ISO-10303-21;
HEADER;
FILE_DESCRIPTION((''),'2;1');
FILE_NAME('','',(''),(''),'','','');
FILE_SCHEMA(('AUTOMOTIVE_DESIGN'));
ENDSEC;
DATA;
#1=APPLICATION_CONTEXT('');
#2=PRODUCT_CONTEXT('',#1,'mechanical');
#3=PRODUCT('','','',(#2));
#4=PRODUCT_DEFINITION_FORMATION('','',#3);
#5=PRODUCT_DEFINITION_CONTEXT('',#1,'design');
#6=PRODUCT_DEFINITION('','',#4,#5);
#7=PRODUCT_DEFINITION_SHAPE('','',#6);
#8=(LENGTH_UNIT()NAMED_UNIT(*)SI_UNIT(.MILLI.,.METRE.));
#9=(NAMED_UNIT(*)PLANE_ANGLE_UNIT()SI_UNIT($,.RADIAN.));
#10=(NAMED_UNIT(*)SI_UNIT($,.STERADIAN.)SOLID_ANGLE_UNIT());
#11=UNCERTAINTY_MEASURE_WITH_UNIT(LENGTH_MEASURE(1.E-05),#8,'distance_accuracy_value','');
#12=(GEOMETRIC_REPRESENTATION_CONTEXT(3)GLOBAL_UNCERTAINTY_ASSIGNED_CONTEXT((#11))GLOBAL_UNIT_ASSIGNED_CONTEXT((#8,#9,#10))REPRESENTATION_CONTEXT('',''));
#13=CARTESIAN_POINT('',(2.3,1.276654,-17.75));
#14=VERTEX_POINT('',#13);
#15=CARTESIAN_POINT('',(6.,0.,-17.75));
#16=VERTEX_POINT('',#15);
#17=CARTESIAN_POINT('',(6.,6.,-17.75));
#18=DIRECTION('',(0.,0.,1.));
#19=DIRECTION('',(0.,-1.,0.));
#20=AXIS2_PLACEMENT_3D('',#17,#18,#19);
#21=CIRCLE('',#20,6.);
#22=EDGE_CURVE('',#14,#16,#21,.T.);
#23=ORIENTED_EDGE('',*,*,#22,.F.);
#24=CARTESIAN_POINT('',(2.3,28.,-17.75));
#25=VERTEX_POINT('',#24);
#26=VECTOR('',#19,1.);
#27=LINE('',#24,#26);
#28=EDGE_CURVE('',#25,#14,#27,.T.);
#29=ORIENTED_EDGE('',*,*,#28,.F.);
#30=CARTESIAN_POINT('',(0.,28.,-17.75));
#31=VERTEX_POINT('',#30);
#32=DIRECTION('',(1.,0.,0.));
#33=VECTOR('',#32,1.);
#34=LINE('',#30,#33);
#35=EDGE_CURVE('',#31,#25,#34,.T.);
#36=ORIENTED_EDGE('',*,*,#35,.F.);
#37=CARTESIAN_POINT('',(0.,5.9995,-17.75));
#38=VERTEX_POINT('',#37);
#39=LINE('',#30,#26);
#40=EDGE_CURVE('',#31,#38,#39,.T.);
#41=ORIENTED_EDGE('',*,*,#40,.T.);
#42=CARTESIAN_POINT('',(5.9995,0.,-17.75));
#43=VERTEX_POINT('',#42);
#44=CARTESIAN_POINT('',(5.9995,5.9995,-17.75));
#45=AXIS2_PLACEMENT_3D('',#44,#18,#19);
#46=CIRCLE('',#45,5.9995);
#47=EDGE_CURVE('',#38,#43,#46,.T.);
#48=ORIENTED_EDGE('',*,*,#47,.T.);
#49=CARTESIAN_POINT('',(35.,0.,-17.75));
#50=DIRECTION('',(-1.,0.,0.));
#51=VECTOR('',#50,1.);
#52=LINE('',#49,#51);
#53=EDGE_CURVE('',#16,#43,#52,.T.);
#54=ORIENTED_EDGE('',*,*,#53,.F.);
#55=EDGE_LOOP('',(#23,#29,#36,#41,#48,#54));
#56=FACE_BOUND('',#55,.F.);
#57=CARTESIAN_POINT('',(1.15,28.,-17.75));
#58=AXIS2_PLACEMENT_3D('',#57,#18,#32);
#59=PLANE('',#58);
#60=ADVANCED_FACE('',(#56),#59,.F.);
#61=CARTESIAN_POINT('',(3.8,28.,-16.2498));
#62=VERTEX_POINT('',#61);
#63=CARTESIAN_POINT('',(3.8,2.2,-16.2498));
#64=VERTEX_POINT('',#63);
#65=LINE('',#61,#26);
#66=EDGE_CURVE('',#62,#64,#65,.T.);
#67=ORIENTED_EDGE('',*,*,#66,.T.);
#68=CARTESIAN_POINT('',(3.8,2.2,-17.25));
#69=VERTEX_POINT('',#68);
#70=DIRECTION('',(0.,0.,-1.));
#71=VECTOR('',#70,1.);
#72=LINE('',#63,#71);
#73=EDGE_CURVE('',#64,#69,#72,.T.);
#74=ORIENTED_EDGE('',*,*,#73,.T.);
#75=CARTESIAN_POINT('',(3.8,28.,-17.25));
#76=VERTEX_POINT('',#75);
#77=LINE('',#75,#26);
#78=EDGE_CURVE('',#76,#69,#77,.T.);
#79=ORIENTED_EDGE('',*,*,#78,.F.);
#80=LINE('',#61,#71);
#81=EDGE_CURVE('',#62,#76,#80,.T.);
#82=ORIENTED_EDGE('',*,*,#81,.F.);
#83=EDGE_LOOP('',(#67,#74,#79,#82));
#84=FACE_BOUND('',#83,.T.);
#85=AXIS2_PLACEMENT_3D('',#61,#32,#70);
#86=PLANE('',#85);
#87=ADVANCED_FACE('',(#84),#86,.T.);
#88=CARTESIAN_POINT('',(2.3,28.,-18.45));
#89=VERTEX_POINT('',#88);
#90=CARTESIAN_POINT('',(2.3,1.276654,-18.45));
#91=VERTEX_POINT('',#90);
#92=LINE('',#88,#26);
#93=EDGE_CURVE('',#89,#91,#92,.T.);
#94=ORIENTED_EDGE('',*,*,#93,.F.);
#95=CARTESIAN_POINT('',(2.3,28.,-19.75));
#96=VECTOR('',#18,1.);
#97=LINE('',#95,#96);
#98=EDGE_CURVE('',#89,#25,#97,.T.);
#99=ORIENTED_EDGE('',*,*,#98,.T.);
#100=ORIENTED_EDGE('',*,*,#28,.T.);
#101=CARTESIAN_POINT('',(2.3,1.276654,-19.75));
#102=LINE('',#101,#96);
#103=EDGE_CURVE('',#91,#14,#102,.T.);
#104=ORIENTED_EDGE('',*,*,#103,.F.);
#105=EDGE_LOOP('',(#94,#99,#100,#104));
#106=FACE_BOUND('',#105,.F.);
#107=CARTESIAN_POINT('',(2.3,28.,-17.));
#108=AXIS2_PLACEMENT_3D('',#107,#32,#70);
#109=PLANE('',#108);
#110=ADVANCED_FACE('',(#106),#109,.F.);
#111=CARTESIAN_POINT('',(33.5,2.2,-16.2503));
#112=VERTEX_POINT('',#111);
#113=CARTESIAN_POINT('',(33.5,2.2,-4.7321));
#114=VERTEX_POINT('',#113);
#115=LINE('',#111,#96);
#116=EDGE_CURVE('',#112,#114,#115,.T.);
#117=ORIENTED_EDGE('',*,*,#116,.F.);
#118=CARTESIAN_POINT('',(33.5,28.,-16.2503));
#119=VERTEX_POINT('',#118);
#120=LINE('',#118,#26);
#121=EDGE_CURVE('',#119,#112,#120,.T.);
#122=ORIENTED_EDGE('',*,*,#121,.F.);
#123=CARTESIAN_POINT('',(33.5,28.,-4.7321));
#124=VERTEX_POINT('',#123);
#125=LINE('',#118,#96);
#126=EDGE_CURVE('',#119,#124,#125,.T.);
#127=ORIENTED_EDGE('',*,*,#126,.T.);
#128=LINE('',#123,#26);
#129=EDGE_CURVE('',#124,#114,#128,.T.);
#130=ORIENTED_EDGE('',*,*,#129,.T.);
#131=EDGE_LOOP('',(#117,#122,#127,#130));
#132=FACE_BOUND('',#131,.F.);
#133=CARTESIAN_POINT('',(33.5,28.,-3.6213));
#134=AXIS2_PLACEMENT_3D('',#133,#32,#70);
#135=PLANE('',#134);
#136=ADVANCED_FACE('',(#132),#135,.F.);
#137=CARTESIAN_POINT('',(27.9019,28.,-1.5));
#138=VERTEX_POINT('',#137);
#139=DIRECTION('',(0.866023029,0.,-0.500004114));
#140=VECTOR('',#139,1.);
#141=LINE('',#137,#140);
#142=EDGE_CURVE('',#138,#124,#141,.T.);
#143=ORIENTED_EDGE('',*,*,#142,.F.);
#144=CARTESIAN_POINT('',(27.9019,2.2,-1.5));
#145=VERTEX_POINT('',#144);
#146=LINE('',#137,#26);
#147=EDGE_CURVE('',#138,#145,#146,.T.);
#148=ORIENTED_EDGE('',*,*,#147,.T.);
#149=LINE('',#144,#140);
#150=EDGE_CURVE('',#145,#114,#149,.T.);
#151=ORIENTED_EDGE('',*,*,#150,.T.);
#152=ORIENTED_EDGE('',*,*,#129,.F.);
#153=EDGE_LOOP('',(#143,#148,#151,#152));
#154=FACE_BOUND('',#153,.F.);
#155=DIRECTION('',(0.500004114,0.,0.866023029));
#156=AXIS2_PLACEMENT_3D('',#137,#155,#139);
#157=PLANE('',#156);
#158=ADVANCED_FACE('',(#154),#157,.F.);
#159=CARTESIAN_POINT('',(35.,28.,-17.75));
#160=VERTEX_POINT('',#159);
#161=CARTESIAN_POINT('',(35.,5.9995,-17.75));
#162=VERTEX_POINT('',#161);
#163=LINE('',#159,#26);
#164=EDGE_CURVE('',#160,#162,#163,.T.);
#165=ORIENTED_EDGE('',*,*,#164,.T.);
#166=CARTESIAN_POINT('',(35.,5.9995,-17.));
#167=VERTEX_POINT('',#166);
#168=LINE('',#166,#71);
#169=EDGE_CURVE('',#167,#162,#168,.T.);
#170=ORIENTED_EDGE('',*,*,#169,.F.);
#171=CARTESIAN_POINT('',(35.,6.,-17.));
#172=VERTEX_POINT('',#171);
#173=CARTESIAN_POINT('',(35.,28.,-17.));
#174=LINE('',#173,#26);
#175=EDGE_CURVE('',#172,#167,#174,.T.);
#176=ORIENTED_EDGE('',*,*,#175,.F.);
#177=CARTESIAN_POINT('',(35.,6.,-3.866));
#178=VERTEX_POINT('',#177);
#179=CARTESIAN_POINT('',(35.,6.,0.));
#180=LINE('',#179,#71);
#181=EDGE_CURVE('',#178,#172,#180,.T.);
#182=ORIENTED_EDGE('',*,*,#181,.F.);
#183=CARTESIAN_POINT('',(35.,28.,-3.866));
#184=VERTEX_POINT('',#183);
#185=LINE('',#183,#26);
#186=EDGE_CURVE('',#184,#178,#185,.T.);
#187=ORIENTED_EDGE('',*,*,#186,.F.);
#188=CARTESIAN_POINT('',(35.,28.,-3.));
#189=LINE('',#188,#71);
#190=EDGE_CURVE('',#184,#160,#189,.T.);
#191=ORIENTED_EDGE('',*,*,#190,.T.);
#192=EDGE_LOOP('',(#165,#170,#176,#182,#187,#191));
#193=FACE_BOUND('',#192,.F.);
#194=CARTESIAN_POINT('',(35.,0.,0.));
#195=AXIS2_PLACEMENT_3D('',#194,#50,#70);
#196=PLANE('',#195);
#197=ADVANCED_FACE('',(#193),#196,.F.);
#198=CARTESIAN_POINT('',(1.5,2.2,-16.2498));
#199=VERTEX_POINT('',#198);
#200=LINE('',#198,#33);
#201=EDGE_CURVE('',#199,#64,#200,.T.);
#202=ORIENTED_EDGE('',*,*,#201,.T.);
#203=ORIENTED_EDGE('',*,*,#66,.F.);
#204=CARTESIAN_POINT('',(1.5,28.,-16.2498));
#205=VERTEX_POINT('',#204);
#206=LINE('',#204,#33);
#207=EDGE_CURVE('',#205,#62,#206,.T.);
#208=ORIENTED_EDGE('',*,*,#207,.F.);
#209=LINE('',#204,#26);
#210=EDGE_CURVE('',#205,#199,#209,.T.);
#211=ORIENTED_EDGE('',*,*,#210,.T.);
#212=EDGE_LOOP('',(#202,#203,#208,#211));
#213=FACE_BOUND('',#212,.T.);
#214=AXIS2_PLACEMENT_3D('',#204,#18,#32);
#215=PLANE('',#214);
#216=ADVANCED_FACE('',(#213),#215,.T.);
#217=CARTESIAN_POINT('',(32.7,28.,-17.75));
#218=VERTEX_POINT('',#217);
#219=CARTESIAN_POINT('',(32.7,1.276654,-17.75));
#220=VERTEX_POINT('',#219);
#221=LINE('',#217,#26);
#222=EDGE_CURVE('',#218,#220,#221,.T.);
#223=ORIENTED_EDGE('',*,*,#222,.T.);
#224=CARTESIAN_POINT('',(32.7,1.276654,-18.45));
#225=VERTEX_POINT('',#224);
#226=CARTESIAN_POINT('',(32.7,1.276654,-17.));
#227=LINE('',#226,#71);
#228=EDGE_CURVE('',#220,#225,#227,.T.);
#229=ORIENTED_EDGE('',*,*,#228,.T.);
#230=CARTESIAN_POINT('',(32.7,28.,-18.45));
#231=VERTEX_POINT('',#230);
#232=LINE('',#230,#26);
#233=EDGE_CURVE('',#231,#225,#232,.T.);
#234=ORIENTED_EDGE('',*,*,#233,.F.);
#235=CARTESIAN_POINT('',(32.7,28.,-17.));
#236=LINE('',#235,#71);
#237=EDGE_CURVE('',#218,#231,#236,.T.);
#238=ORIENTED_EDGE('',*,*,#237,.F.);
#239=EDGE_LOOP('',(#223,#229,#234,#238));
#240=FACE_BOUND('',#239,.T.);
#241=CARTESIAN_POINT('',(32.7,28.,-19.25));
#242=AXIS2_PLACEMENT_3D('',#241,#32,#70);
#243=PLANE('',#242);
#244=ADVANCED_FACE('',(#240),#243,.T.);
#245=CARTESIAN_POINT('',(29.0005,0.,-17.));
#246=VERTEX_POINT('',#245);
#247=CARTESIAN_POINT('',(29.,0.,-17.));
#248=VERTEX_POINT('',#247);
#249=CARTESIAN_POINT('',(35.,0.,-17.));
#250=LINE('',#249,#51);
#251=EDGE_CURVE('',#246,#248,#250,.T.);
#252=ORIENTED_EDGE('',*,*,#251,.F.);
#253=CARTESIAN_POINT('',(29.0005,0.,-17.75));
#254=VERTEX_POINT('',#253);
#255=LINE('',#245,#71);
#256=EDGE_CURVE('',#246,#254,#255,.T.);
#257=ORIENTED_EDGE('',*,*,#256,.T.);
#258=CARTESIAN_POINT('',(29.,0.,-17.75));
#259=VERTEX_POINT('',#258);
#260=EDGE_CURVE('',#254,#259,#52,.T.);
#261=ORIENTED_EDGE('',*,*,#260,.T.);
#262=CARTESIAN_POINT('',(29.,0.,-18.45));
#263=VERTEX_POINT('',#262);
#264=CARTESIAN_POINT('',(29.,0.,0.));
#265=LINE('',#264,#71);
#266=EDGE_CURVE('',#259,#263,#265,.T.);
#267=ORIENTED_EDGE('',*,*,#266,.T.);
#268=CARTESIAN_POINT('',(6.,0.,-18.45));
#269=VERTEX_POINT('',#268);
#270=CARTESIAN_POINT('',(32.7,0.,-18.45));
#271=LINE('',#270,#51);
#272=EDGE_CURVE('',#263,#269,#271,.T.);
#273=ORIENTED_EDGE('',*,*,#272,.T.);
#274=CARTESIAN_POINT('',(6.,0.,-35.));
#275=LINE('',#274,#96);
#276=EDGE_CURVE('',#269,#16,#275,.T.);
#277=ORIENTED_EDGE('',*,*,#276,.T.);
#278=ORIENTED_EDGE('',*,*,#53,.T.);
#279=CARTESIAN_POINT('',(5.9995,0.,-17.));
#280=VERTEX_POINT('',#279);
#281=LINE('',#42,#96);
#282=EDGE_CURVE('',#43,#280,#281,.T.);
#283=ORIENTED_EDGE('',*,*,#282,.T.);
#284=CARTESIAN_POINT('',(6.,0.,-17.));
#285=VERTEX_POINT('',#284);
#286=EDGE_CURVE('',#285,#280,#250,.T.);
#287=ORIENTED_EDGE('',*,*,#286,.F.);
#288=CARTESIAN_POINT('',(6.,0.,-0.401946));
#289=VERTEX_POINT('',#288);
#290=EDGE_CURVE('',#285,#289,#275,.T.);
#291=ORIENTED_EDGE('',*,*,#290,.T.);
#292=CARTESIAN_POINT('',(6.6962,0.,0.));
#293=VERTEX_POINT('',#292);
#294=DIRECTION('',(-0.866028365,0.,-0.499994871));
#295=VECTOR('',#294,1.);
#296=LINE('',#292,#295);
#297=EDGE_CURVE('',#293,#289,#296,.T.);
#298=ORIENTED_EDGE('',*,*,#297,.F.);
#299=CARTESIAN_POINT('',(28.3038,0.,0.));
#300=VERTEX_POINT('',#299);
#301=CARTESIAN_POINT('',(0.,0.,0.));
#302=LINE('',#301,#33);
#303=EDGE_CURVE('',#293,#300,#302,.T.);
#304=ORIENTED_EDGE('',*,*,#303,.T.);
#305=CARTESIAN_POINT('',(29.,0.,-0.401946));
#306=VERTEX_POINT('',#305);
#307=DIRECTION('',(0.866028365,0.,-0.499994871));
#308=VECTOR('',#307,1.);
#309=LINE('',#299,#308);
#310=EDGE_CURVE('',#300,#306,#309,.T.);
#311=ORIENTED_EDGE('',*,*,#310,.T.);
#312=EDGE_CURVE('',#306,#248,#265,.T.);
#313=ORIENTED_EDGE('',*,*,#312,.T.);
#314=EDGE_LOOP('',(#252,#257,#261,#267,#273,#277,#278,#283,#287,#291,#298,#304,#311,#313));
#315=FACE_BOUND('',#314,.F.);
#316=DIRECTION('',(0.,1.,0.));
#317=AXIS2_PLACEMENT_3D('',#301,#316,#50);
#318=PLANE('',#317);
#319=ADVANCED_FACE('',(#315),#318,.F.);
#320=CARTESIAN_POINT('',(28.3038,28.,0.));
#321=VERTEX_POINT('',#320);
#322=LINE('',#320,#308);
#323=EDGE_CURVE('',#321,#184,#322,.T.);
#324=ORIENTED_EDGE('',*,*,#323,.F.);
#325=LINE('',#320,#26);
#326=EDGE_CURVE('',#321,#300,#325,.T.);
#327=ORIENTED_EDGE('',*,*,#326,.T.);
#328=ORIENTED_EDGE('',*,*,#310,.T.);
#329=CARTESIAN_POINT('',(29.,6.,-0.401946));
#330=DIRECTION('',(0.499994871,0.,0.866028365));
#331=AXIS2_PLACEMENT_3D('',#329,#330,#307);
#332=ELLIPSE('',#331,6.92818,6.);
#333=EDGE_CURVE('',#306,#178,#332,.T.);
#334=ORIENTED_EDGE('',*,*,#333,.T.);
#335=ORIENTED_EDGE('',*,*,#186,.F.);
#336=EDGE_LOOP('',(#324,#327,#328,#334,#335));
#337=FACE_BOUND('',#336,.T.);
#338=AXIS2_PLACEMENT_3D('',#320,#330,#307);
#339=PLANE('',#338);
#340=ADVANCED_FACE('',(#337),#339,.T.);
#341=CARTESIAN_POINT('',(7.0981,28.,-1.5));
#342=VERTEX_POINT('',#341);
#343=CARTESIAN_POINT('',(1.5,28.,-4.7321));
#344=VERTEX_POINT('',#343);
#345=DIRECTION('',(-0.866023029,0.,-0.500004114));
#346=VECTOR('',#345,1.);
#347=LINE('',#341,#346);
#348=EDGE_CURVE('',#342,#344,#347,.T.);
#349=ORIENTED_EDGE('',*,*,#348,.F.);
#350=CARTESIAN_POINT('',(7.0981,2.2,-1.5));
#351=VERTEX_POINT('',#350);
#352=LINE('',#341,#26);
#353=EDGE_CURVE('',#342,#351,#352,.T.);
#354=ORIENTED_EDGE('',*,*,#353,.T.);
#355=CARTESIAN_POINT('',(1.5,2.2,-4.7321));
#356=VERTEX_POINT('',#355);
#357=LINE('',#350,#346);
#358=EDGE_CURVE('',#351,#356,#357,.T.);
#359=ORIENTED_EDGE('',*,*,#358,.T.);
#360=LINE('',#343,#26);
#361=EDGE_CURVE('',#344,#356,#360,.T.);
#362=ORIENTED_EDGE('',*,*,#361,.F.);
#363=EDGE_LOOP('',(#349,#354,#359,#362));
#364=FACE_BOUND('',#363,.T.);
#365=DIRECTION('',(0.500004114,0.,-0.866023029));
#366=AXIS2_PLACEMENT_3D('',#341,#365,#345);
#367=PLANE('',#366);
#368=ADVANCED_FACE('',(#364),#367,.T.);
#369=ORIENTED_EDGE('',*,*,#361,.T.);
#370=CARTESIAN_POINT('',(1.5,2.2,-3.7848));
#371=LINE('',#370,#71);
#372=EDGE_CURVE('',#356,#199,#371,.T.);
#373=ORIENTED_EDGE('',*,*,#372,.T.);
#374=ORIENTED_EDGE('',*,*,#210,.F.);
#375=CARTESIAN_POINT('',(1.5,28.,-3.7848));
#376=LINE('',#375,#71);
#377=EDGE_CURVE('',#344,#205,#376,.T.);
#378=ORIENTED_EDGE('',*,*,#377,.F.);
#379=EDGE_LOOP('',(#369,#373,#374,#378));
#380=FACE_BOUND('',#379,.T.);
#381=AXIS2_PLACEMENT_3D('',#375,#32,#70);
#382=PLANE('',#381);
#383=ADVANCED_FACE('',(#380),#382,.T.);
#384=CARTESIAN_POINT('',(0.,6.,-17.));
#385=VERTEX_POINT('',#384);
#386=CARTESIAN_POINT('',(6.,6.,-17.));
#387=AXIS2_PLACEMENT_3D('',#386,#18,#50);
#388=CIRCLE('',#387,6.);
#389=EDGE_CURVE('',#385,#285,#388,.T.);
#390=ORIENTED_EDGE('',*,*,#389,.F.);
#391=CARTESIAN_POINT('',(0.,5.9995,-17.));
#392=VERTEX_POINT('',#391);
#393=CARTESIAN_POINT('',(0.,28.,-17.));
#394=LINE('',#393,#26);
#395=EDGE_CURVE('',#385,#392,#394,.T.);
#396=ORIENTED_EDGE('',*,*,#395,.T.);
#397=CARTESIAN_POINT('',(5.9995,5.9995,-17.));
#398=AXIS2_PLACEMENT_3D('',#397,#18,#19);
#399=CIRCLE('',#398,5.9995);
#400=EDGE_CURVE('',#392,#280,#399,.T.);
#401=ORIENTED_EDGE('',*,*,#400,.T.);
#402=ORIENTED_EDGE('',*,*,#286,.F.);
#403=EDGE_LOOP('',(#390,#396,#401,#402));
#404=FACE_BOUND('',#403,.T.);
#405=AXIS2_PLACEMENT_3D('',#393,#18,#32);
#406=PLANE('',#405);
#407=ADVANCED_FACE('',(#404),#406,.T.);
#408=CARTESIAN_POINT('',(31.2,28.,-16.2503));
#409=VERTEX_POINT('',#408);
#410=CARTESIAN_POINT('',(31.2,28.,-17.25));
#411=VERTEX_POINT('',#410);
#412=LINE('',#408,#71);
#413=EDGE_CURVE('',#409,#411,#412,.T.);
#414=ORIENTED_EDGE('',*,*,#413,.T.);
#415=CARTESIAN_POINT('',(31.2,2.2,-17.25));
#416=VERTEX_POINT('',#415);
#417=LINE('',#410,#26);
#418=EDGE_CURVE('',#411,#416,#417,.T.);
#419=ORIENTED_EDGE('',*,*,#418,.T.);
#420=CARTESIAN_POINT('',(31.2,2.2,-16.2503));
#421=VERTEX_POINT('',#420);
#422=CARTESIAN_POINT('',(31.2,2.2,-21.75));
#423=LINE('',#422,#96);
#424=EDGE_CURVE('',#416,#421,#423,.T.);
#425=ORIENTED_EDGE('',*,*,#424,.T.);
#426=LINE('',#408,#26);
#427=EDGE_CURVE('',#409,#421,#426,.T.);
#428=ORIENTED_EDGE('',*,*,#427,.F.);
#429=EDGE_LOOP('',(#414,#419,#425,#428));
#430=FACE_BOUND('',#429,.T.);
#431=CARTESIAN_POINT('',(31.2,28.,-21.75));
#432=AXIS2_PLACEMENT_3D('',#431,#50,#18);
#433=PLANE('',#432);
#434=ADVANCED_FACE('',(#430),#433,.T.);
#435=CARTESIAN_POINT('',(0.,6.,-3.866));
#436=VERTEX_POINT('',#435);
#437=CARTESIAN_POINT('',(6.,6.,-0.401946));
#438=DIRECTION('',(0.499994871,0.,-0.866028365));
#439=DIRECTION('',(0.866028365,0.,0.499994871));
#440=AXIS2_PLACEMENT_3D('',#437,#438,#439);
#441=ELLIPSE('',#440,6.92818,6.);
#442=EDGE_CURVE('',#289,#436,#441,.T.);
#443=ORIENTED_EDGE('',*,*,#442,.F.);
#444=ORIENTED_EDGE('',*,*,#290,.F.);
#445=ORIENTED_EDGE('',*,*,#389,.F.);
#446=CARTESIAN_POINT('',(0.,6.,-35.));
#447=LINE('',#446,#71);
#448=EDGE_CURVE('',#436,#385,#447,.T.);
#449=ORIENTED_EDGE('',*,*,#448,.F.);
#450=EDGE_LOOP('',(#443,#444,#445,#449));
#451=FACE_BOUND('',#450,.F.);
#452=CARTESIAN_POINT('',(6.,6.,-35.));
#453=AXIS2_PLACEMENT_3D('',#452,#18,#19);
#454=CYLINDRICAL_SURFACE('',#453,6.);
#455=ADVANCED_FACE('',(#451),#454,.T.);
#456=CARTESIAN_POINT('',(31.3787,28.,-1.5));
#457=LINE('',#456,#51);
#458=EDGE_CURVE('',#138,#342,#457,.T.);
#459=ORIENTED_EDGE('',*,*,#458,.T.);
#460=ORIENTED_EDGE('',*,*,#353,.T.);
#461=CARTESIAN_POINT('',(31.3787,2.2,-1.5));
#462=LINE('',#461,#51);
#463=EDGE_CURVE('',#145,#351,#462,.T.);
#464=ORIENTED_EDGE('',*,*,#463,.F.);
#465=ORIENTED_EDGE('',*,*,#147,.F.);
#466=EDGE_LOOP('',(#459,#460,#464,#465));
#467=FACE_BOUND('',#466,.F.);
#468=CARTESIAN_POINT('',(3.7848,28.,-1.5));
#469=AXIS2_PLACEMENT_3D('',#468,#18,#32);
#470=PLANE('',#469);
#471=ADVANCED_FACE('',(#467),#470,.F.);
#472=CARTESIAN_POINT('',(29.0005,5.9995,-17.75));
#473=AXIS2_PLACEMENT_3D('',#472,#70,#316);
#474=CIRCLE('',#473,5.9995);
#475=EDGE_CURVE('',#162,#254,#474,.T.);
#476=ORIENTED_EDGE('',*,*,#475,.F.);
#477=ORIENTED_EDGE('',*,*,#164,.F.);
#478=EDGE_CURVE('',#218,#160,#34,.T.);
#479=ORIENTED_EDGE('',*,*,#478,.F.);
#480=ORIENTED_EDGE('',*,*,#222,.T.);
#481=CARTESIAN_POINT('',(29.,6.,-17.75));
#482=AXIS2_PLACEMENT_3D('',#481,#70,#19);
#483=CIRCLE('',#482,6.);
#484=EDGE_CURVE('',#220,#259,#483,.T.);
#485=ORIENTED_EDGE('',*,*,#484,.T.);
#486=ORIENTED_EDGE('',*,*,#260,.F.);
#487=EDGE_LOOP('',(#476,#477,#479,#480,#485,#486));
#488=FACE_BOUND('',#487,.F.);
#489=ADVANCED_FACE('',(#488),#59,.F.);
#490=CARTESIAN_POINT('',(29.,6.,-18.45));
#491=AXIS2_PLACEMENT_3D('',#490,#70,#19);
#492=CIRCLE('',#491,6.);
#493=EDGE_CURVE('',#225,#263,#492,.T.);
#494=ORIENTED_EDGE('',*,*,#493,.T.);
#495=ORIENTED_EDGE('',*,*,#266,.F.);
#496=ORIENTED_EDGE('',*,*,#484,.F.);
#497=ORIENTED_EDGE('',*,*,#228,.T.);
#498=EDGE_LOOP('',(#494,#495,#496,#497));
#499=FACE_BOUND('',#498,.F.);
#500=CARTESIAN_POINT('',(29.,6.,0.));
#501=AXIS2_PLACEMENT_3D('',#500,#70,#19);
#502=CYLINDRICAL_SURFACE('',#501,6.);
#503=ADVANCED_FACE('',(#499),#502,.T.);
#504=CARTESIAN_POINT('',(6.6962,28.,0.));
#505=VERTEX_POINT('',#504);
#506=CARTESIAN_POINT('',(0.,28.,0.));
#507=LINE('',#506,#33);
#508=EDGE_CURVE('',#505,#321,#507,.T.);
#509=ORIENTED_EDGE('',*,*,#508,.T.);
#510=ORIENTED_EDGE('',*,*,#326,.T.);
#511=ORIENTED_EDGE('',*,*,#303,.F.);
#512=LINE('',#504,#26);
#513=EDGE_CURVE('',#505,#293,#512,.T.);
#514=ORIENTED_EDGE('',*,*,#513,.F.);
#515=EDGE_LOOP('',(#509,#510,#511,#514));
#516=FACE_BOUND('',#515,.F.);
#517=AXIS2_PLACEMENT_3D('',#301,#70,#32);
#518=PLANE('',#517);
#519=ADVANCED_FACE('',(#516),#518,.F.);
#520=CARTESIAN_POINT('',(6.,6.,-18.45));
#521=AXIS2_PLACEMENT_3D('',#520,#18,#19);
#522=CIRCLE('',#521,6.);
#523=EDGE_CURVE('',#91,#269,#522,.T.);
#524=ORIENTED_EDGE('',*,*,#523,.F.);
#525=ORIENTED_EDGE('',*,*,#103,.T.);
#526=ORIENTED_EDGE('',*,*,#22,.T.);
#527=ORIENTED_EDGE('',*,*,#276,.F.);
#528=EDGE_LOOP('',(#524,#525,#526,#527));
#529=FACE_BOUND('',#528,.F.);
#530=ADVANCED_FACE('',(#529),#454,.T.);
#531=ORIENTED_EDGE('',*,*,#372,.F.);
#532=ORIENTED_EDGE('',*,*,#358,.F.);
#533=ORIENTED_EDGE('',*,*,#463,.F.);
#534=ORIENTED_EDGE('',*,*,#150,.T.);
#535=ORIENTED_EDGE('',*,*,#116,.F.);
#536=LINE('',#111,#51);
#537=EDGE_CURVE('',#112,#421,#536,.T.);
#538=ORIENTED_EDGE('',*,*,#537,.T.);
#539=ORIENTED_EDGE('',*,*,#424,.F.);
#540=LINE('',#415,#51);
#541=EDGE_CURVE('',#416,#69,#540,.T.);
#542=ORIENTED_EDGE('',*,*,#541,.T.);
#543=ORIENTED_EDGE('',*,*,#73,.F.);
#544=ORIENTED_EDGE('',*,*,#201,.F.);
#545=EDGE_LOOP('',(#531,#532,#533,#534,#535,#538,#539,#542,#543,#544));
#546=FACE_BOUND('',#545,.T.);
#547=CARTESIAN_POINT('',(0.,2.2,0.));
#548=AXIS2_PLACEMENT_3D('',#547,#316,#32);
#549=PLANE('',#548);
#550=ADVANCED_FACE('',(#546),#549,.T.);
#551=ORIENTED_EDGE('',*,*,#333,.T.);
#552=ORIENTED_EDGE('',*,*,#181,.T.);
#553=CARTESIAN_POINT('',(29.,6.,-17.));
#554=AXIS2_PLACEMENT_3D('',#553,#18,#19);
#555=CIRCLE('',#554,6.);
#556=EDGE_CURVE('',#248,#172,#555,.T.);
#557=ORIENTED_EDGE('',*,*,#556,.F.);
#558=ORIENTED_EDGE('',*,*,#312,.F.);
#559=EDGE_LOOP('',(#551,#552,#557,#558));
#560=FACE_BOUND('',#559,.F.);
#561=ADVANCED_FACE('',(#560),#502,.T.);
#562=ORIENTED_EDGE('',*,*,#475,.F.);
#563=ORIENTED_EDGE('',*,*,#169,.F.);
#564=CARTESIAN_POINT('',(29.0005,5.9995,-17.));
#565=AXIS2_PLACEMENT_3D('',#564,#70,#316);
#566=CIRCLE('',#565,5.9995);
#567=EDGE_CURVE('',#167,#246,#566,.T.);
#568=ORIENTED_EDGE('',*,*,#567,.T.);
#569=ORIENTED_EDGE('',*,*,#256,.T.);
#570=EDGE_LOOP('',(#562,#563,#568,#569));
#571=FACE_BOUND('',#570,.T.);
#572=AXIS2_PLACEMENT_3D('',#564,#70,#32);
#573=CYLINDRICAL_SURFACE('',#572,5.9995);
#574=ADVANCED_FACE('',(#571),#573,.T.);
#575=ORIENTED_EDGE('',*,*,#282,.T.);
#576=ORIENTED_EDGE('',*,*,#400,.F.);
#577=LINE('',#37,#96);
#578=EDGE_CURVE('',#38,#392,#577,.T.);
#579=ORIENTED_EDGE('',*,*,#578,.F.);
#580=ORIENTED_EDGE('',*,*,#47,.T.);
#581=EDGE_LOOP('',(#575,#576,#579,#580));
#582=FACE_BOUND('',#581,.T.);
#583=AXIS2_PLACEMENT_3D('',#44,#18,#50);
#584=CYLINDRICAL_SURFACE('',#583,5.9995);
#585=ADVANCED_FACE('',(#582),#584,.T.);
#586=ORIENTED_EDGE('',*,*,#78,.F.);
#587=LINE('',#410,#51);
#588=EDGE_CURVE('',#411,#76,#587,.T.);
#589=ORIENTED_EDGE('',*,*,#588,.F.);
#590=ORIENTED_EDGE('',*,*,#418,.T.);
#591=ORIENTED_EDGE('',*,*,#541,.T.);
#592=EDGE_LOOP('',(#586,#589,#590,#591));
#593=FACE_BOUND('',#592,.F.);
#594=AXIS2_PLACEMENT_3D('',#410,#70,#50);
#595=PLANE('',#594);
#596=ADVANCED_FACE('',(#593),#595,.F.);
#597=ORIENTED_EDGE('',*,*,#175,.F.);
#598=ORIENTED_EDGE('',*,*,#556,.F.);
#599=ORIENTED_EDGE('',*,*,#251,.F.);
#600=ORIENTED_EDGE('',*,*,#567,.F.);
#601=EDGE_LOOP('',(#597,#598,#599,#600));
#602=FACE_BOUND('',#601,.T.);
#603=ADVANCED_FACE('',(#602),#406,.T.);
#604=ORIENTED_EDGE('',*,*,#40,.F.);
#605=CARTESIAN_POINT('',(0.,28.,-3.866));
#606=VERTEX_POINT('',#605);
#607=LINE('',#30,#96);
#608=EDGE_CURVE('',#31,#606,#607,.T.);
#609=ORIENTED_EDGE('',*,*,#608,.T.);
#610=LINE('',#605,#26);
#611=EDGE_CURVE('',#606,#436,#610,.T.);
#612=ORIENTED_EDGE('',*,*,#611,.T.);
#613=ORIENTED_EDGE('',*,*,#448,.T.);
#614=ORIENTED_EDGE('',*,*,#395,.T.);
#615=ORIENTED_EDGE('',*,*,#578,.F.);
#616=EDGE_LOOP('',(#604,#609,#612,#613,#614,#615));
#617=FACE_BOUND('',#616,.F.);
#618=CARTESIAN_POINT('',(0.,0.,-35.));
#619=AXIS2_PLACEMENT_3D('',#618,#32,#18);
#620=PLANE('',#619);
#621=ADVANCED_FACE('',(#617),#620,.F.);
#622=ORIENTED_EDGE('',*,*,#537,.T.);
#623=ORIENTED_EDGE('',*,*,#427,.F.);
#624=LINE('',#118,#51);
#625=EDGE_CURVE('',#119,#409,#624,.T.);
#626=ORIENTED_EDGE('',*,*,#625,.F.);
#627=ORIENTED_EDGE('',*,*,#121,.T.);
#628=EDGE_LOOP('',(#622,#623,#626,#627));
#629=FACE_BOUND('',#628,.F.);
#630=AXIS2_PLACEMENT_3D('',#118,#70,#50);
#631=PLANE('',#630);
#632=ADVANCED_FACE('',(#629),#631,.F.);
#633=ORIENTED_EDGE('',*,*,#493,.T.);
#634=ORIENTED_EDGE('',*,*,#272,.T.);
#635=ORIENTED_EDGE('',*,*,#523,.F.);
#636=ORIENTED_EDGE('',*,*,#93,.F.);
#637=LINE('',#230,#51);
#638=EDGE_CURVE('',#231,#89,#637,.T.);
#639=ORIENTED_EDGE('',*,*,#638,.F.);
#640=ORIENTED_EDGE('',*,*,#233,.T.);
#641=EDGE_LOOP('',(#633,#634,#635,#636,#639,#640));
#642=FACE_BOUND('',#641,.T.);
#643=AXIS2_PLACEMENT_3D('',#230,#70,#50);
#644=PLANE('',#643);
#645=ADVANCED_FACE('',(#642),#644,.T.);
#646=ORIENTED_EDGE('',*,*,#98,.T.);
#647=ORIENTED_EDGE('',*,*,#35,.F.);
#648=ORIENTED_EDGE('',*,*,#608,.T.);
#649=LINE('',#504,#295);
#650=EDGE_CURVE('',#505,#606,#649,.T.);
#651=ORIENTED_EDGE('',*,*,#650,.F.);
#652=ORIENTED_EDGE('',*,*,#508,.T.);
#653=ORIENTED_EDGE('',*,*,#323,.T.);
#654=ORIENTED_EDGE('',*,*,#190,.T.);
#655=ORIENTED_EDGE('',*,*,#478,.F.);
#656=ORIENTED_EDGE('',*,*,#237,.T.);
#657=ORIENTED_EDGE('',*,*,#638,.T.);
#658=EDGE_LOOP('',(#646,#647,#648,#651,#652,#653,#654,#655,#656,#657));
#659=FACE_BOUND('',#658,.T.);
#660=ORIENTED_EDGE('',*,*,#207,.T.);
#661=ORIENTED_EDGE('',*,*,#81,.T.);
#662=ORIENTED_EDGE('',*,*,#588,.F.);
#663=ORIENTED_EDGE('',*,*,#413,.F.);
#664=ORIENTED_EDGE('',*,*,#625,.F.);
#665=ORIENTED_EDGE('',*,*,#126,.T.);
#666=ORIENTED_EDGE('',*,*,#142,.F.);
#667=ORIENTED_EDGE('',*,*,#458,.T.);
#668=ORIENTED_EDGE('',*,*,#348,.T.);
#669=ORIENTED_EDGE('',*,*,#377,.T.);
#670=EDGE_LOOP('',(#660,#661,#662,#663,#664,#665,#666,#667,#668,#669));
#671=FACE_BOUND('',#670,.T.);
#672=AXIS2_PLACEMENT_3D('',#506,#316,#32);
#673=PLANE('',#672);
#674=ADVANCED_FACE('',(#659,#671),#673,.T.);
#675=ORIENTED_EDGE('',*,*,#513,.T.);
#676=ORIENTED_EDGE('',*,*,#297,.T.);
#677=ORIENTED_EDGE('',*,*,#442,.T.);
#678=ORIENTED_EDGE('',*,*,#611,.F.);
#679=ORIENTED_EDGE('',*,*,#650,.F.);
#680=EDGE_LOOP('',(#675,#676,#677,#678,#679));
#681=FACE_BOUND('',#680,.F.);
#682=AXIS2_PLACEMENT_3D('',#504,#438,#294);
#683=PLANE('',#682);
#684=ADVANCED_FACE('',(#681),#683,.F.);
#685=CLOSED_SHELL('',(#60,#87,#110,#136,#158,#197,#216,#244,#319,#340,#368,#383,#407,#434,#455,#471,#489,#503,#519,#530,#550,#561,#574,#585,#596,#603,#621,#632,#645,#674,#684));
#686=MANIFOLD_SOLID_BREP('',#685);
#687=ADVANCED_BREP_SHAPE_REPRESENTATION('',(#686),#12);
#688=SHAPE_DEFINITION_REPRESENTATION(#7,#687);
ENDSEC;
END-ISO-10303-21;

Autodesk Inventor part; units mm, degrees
ref_plane "YZ Plane" through (0, 0, 0) normal (1, 0, 0) x (0, 1, 0)
ref_plane "XZ Plane" through (0, 0, 0) normal (0, 1, 0) x (-1, 0, 0)
ref_plane "XY Plane" through (0, 0, 0) normal (0, 0, 1) x (1, 0, 0)
sketch "Sketch1" plane through (0, 0, 0) normal (0, 1, 0) x (-1, 0, 0)
  line L0 (0, 0) -> (-35, 0)
  line L1 (-35, 0) -> (-35, -35)
  line L2 (-35, -35) -> (0, -35)
  line L3 (0, -35) -> (0, 0)
  dimension "d0" = 35
  dimension "d1" = 35
extrude "Extrusion1" add sketch "Sketch1" along normal blind 28
sketch "Sketch2" plane through (0, 28, 0) normal (0, 1, 0) x (1, 0, 0)
  line L0 (35, 19) -> (32.7, 19)
  line L1 (32.7, 19) -> (32.7, 17)
  line L2 (35, 19) -> (35, 17.125)
  line L3 (32.7, 17) -> (35, 17)
  line L4 (35, 17) -> (35, 17.125)
  point P0 (0, 0)
  point P1 (35, 35)
  dimension "d6" = 16
  dimension "d7" = 2.3
  dimension "d8" = 2
extrude "Extrusion2" cut sketch "Sketch2" against normal blind 28
pattern_linear "Rectangular Pattern1" count 2 spacing 32.7 along (-1, 0, 0) of "Extrusion2"
fillet "Fillet1" radius 6 2 edges at (35, 0, -8.5) (35, 0, -27)
fillet "Fillet2" radius 6 1 edges at (0, 0, -27)
sketch "Sketch3" plane through (0, 28, 0) normal (0, 1, 0) x (1, 0, 0)
  line L0 (6, 0) -> (0, 0) projected
  line L1 (0, 0) -> (0, 3)
  line L2 (0, 17) -> (0, 0) projected
  line L3 (0, 0) -> (3, 0)
  line L4 (0, 3) -> (3, 0)
  dimension "d16" = 3
extrude "Extrusion3" cut sketch "Sketch3" against normal blind 28
sketch "Sketch4" plane through (0, 28, 0) normal (0, 1, 0) x (1, 0, 0)
  line L0 (0, 19) -> (0, 35) projected
  line L1 (0, 35) -> (0, 32)
  line L2 (0, 35) -> (6, 35) projected
  line L3 (0, 35) -> (3, 35)
  line L4 (3, 35) -> (0, 32)
  point P0 (0, 0)
  dimension "d19" = 3
  dimension "d20" = 3
extrude "Extrusion4" cut sketch "Sketch4" against normal blind 28
sketch "Sketch5" plane through (0, 28, 0) normal (0, 1, 0) x (1, 0, 0)
  line L0 (35, 0) -> (35, 17) projected
  line L1 (35, 0) -> (32, 0)
  line L2 (3, 0) -> (35, 0) projected
  line L3 (35, 0) -> (35, 3)
  line L4 (35, 3) -> (32, 0)
  line L5 (29, 35) -> (35, 35) projected
  line L6 (35, 35) -> (35, 32)
  line L7 (35, 19) -> (35, 35) projected
  line L8 (35, 32) -> (32, 35)
  line L9 (32, 35) -> (35, 35)
  point P0 (0, 0)
  dimension "d23" = 3
  dimension "d24" = 3
  dimension "d25" = 3
extrude "Extrusion5" cut sketch "Sketch5" against normal blind 28
sketch "Sketch6" plane through (0, 28, 0) normal (0, 1, 0) x (1, 0, 0)
  line L0 (3, 0) -> (0, 3) projected
  line L1 (2.3, 17) -> (0, 17) projected
  line L2 (2, 15.75) -> (4.3, 15.75)
  line L3 (4.3, 15.75) -> (4.3, 21.75)
  line L4 (4.3, 21.75) -> (2, 21.75)
  line L5 (0, 19) -> (0, 32) projected
  line L6 (2, 21.75) -> (2, 30.75)
  line L7 (0, 3) -> (0, 5)
  line L8 (0, 17) -> (0, 3) projected
  line L9 (2, 5) -> (2, 15.75)
  line L10 (32, 35) -> (3, 35) projected
  line L11 (3, 35) -> (5, 35)
  line L12 (6, 0) -> (3, 0) projected
  line L13 (3, 0) -> (5, 0)
  line L14 (2.827, 3) -> (2, 3.8818)
  line L15 (2, 3.8818) -> (2, 5)
  line L16 (2.827, 3) -> (3.827, 2)
  line L17 (2.827, 3) -> (4.2412, 3) construction
  line L18 (1.743, 34.4232) -> (3.15, 33.0019)
  line L19 (3.15, 33.0019) -> (2, 31.8635)
  line L20 (2, 31.8635) -> (2, 30.75)
  line L21 (3.15, 33.0019) -> (4.0351, 33.5429)
  line L22 (4.0351, 33.5429) -> (30.1293, 33.5429)
  line L23 (35, 32) -> (32, 35) projected
  line L24 (32.0858, 32.8358) -> (31.3787, 33.5429)
  line L25 (31.3787, 33.5429) -> (30.1293, 33.5429)
  line L26 (35, 19) -> (35, 32) projected
  line L27 (33, 26.25) -> (33, 31.9216)
  line L28 (33, 31.9216) -> (32.0858, 32.8358)
  line L29 (33, 26.25) -> (33, 21.75)
  line L30 (35, 19) -> (32.7, 19) projected
  line L31 (33, 21.75) -> (30.7, 21.75)
  line L32 (30.7, 21.75) -> (30.7, 15.75)
  line L33 (30.7, 15.75) -> (33, 15.75)
  line L34 (33, 15.75) -> (33, 7.3052)
  line L35 (32, 0) -> (35, 3) projected
  line L36 (33.85, 1.85) -> (35.85, 1.85) construction
  line L37 (32.4358, 3.2642) -> (33, 3.8284)
  line L38 (33, 3.8284) -> (33, 7.3052)
  line L39 (27.667, 2) -> (31.1716, 2)
  line L40 (31.1716, 2) -> (32.4358, 3.2642)
  line L41 (27.667, 2) -> (3.827, 2)
  point P0 (0, 0)
  dimension "d31" = 2.3
  dimension "d32" = 6
  dimension "d33" = 2.3
  dimension "d34" = 9
  dimension "d35" = 2
  dimension "d36" = 2
  dimension "d37" = 2
  dimension "d42" = 45
  dimension "d43" = 2
  dimension "d48" = 4.5
  dimension "d49" = 2.3
  dimension "d50" = 6
  dimension "d51" = 2.3
  dimension "d52" = 2
extrude "Extrusion6" cut sketch "Sketch6" against normal blind 25.8
sketch "Sketch7" plane through (0, 28, 0) normal (0, 1, 0) x (1, 0, 0)
  line L0 (23.4542, 2) -> (23.9542, 2) construction
  line L1 (32.0858, 2.9142) -> (32.5858, 2.9142) construction
  line L2 (35, 32) -> (32, 35) projected
  line L3 (31.3787, 33.5429) -> (33, 31.9216) projected
  line L4 (2, 31.8635) -> (3.15, 33.0019) projected
  line L5 (2.8776, 32.7322) -> (3.3776, 32.7322) construction
  line L6 (32.4393, 2.5607) -> (31.3787, 1.5)
  line L7 (31.3787, 1.5) -> (23.4542, 1.5)
  line L8 (2.7741, 2.5108) -> (3.7848, 1.5)
  line L9 (3.7848, 1.5) -> (23.4542, 1.5)
  line L10 (2.7741, 2.5108) -> (1.5, 3.7848)
  line L11 (1.5, 3.7848) -> (1.5, 16.2498)
  line L12 (1.5, 16.2498) -> (3.8, 16.2498)
  line L13 (3.8, 16.2498) -> (3.8, 21.2498)
  line L14 (4.3, 21.75) -> (2, 21.75) projected
  line L15 (3.8, 21.2498) -> (1.5, 21.2498)
  line L16 (1.5, 21.2498) -> (1.5, 27.2918)
  line L17 (1.5, 27.2918) -> (1.5, 32.0617)
  line L18 (1.5, 32.0617) -> (2.5241, 33.0858)
  line L19 (2.5241, 33.0858) -> (3.4812, 34.0429)
  line L20 (3.4812, 34.0429) -> (18.3245, 34.0429)
  line L21 (18.3245, 34.0429) -> (31.5858, 34.0429)
  line L22 (31.5858, 34.0429) -> (32.5429, 33.0858)
  line L23 (32.4393, 2.5607) -> (33.5, 3.6213)
  line L24 (33.5, 3.6213) -> (33.5, 11.0333)
  line L25 (33.5, 11.0333) -> (33.5, 16.2503)
  line L26 (33.5, 16.2503) -> (31.2, 16.2503)
  line L27 (30.7, 21.75) -> (30.7, 15.75) projected
  line L28 (31.2, 16.2503) -> (31.2, 21.2503)
  line L29 (31.2, 21.2503) -> (33.5, 21.2503)
  line L30 (33.5, 21.2503) -> (33.5, 32.1287)
  line L31 (33.5, 32.1287) -> (32.5429, 33.0858)
  line L32 (4.0351, 33.5429) -> (31.3787, 33.5429) projected
  line L33 (4.0351, 33.5429) -> (31.3787, 33.5429)
  line L34 (33, 31.9216) -> (33, 21.75) projected
  line L35 (31.3787, 33.5429) -> (33, 31.9216)
  line L36 (33, 31.9216) -> (33, 21.75)
  line L37 (33, 21.75) -> (30.7, 21.75) projected
  line L38 (33, 21.75) -> (30.7, 21.75)
  line L39 (30.7, 21.75) -> (30.7, 15.75)
  line L40 (30.7, 15.75) -> (33, 15.75) projected
  line L41 (31.1716, 2) -> (3.827, 2)
  line L42 (3.827, 2) -> (2.827, 3) projected
  line L43 (2, 3.8818) -> (2, 15.75) projected
  line L44 (3.827, 2) -> (2, 3.8818)
  line L45 (2, 3.8818) -> (2, 15.75)
  line L46 (2, 15.75) -> (4.3, 15.75) projected
  line L47 (2, 15.75) -> (4.3, 15.75)
  line L48 (4.3, 15.75) -> (4.3, 21.75) projected
  line L49 (4.3, 15.75) -> (4.3, 21.75)
  line L50 (4.3, 21.75) -> (2, 21.75)
  line L51 (2, 21.75) -> (2, 31.8635) projected
  line L52 (2, 21.75) -> (2, 31.8635)
  line L53 (3.15, 33.0019) -> (4.0351, 33.5429) projected
  line L54 (2, 31.8635) -> (3.15, 33.0019)
  line L55 (33, 3.8284) -> (31.1716, 2) projected
  line L56 (31.1716, 2) -> (33, 3.8284)
  line L57 (33, 3.8284) -> (33, 15.75)
  line L58 (30.7, 15.75) -> (33, 15.75)
  point P0 (0, 0)
  dimension "d65" = 0.5
  dimension "d70" = 12.465
  dimension "d71" = 2.3
  dimension "d72" = 5
  dimension "d73" = 90
  dimension "d74" = 2.3
  dimension "d76" = 2.3
  dimension "d77" = 5
  dimension "d78" = 2.3
extrude "Extrusion7" cut sketch "Sketch7" against normal blind 25.8
sketch "Sketch8" plane through (0, 28, 0) normal (0, 1, 0) x (1, 0, 0)
  line L0 (32, 35) -> (35, 32) projected
  line L1 (33.2498, 33.7502) -> (34.7498, 33.7502) construction
  line L2 (29, 35) -> (32, 35) projected
  line L3 (28.3787, 33.5) -> (31.3787, 33.5)
  line L4 (31.3787, 33.5) -> (32.1892, 32.6895)
  line L5 (33.5, 32.1287) -> (33.5, 21.2503) projected
  line L6 (33.5, 31.3787) -> (32.1892, 32.6895)
  line L7 (33.5, 31.3787) -> (33.5, 32.1287)
  line L8 (31.5858, 34.0429) -> (33.5, 32.1287) projected
  line L9 (33.5, 32.1287) -> (31.5858, 34.0429)
  line L10 (3.4812, 34.0429) -> (31.5858, 34.0429) projected
  line L11 (31.5858, 34.0429) -> (3.4812, 34.0429)
  line L12 (1.5, 32.0617) -> (3.4812, 34.0429) projected
  line L13 (3.4812, 34.0429) -> (1.5, 32.0617)
  line L14 (3, 35) -> (0, 32) projected
  line L15 (1.7099, 33.7099) -> (3.2099, 33.7099) construction
  line L16 (2.7705, 32.6492) -> (1.5, 31.3787)
  line L17 (1.5, 21.2498) -> (1.5, 32.0617) projected
  line L18 (4.3449, 35) -> (5.8449, 35) construction
  line L19 (4.3449, 33.5) -> (3.6213, 33.5)
  line L20 (3.6213, 33.5) -> (2.7705, 32.6492)
  line L21 (1.5, 31.3787) -> (1.5, 32.0617)
  line L22 (4.3449, 33.5) -> (28.3787, 33.5)
  point P0 (0, 0)
  dimension "d83" = 1.5
  dimension "d87" = 1.5
  dimension "d89" = 1.5
extrude "Extrusion8" add sketch "Sketch8" against normal blind 25.8
sketch "Sketch9" plane through (0, 28, 0) normal (0, 1, 0) x (1, 0, 0)
  line L0 (0, 3) -> (3, 0) projected
  line L1 (0, 3) -> (5.1962, 0)
  line L2 (3, 0) -> (32, 0) projected
  line L3 (0, 3) -> (6, 3) construction
  line L4 (5.1962, 0) -> (3, 0)
  line L5 (3, 0) -> (0, 3)
  line L6 (35, 17) -> (35, 3) projected
  line L7 (35, 3) -> (29.8038, 0)
  line L8 (32, 0) -> (29, 0) projected
  line L9 (35, 3) -> (41, 3) construction
  line L10 (29.8038, 0) -> (32, 0)
  line L11 (32, 0) -> (35, 3)
  line L12 (35, 19) -> (35, 32) projected
  line L13 (35, 32) -> (29.8038, 35)
  line L14 (29, 35) -> (32, 35) projected
  line L15 (35, 32) -> (41, 32) construction
  line L16 (29.8038, 35) -> (32, 35)
  line L17 (32, 35) -> (35, 32)
  line L18 (0, 19) -> (0, 32) projected
  line L19 (0, 32) -> (5.1962, 35)
  line L20 (3, 35) -> (6, 35) projected
  line L21 (0, 32) -> (6, 32) construction
  line L22 (5.1962, 35) -> (3, 35)
  line L23 (3, 35) -> (0, 32)
  line L24 (0, 32) -> (3, 35) projected
  point P0 (0, 0)
  dimension "d93" = 30
  dimension "d94" = 150
  dimension "d95" = 150
  dimension "d96" = 30
extrude "Extrusion9" cut sketch "Sketch9" against normal blind 28
sketch "Sketch10" plane through (0, 28, 0) normal (0, 1, 0) x (1, 0, 0)
  line L0 (1.5, 3.7848) -> (1.5, 16.2498) projected
  line L1 (1.5, 3.7848) -> (5.4575, 1.5)
  line L2 (31.3787, 1.5) -> (3.7848, 1.5) projected
  line L3 (1.5, 3.7848) -> (6.0697, 3.7848) construction
  line L4 (5.4575, 1.5) -> (3.7848, 1.5)
  line L5 (3.7848, 1.5) -> (1.5, 3.7848) projected
  line L6 (3.7848, 1.5) -> (1.5, 3.7848)
  line L7 (33.5, 16.2503) -> (33.5, 3.6213) projected
  line L8 (33.5, 3.6213) -> (29.8258, 1.5)
  line L9 (33.5, 3.6213) -> (37.7426, 3.6213) construction
  line L10 (33.5, 3.6213) -> (31.3787, 1.5) projected
  line L11 (29.8258, 1.5) -> (31.3787, 1.5)
  line L12 (31.3787, 1.5) -> (33.5, 3.6213)
  line L13 (33.5, 31.3787) -> (33.5, 21.2503) projected
  line L14 (33.5, 31.3787) -> (29.8258, 33.5)
  line L15 (3.6213, 33.5) -> (31.3787, 33.5) projected
  line L16 (33.5, 31.3787) -> (37.7426, 31.3787) construction
  line L17 (29.8258, 33.5) -> (31.3787, 33.5)
  line L18 (31.3787, 33.5) -> (33.5, 31.3787)
  line L19 (1.5, 31.3787) -> (3.6213, 33.5) projected
  line L20 (1.5, 31.3787) -> (5.1742, 33.5)
  line L21 (1.5, 31.3787) -> (5.7426, 31.3787) construction
  line L22 (5.1742, 33.5) -> (3.6213, 33.5)
  line L23 (3.6213, 33.5) -> (1.5, 31.3787)
  point P0 (0, 0)
  dimension "d99" = 30
  dimension "d100" = 150
  dimension "d101" = 150
  dimension "d102" = 30
extrude "Extrusion10" add sketch "Sketch10" against normal blind 25.8
sketch "Sketch11" plane through (0, 28, 0) normal (0, 1, 0) x (1, 0, 0)
  line L0 (0, 3) -> (5.1962, 0) projected
  line L1 (3.036, 1.2472) -> (4.536, 1.2472) construction
  line L2 (3.786, 2.5462) -> (1.5, 3.866)
  line L3 (1.5, 3.7848) -> (5.4575, 1.5) projected
  line L4 (1.5, 3.866) -> (1.5, 3.7848)
  line L5 (1.5, 3.7848) -> (5.4575, 1.5)
  line L6 (5.4575, 1.5) -> (5.5981, 1.5)
  line L7 (29.8258, 1.5) -> (5.4575, 1.5) projected
  line L8 (5.5981, 1.5) -> (3.786, 2.5462)
  line L9 (29.5815, 1.5) -> (29.8258, 1.5)
  line L10 (33.5, 3.6213) -> (29.8258, 1.5) projected
  line L11 (29.8258, 1.5) -> (33.5, 3.6213)
  line L12 (29.8038, 0) -> (35, 3) projected
  line L13 (32.0253, 1.2826) -> (33.5253, 1.2826) construction
  line L14 (31.2753, 2.5816) -> (33.5, 3.866)
  line L15 (33.5, 16.2503) -> (33.5, 3.6213) projected
  line L16 (33.5, 3.866) -> (33.5, 3.6213)
  line L17 (31.2753, 2.5816) -> (29.4019, 1.5)
  line L18 (29.5815, 1.5) -> (29.4019, 1.5)
  line L19 (29.8038, 35) -> (35, 32) projected
  line L20 (29.8258, 33.5) -> (33.5, 31.3787) projected
  line L21 (32.0253, 33.7174) -> (33.5253, 33.7174) construction
  line L22 (31.2753, 32.4184) -> (29.4019, 33.5)
  line L23 (29.8258, 33.5) -> (5.1742, 33.5) projected
  line L24 (29.8258, 33.5) -> (29.4019, 33.5)
  line L25 (29.8258, 33.5) -> (33.5, 31.3787)
  line L26 (33.5, 31.3787) -> (33.5, 31.134)
  line L27 (33.5, 31.3787) -> (33.5, 21.2503) projected
  line L28 (31.2753, 32.4184) -> (33.5, 31.134)
  line L29 (5.1962, 35) -> (0, 32) projected
  line L30 (2.5981, 33.5) -> (4.0981, 33.5) construction
  line L31 (3.3481, 32.201) -> (1.606, 31.1952)
  line L32 (1.5, 21.2498) -> (1.5, 31.3787) projected
  line L33 (5.1742, 33.5) -> (1.5, 31.3787) projected
  line L34 (1.5, 31.3787) -> (5.1742, 33.5)
  line L35 (5.1742, 33.5) -> (5.5981, 33.5)
  line L36 (3.3481, 32.201) -> (5.5981, 33.5)
  line L37 (1.606, 31.1952) -> (1.5, 31.134)
  line L38 (1.5, 31.3787) -> (1.5, 31.134)
  point P0 (0, 0)
  dimension "d105" = 1.5
  dimension "d109" = 1.5
  dimension "d111" = 1.5
  dimension "d113" = 1.5
extrude "Extrusion11" add sketch "Sketch11" against normal blind 25.8
sketch "Sketch12" plane through (0, 28, 0) normal (0, 1, 0) x (1, 0, 0)
  line L0 (32.7, 19) -> (32.95, 19) construction
  line L1 (35, 19) -> (35, 32) projected
  line L2 (32.7, 19) -> (32.7, 17) projected
  line L3 (32.7, 19.25) -> (34.2, 19.25) construction
  line L4 (32.7, 20.75) -> (31.2, 20.75)
  line L5 (31.2, 21.2503) -> (31.2, 16.2503) projected
  line L6 (33.5, 21.2503) -> (31.2, 21.2503) projected
  line L7 (31.2, 21.2503) -> (31.2, 20.75)
  line L8 (33.5, 31.134) -> (33.5, 21.2503) projected
  line L9 (31.2, 21.2503) -> (33.5, 21.2503)
  line L10 (33.5, 21.2503) -> (33.5, 20.75)
  line L11 (33.5, 20.75) -> (32.7, 20.75)
  point P0 (0, 0)
  dimension "d117" = 0.25
  dimension "d119" = 1.5
extrude "Extrusion12" cut sketch "Sketch12" against normal blind 25.8
sketch "Sketch13" plane through (0, 28, 0) normal (0, 1, 0) x (1, 0, 0)
  line L0 (32.7, 19) -> (35, 19) projected
  line L1 (32.7, 19) -> (32.7, 19.25)
  line L2 (32.7, 19.25) -> (35, 19.25)
  line L3 (35, 19.25) -> (35, 19)
  line L4 (32.7, 17) -> (32.7, 19) projected
  line L5 (35, 19) -> (32.7, 19)
  point P0 (0, 0)
  dimension "d123" = 0.25
extrude "Extrusion13" cut sketch "Sketch13" against normal blind 28
sketch "Sketch14" plane through (0, 28, 0) normal (0, 1, 0) x (1, 0, 0)
  line L0 (32.7, 19.25) -> (35, 19.25) projected
  line L1 (32.7, 19.25) -> (32.7, 19.75)
  line L2 (32.7, 19.75) -> (35, 19.75)
  line L3 (35, 19.25) -> (35, 32) projected
  line L4 (35, 19.75) -> (35, 19.25)
  line L5 (32.7, 17) -> (32.7, 19.25) projected
  line L6 (35, 19.25) -> (32.7, 19.25)
  line L7 (0, 19) -> (2.3, 19) projected
  line L8 (0, 19) -> (0, 19.75)
  line L9 (0, 32) -> (0, 19) projected
  line L10 (0, 19.75) -> (2.3, 19.75)
  line L11 (2.3, 19) -> (2.3, 17) projected
  line L12 (2.3, 19.75) -> (2.3, 19)
  line L13 (2.3, 19) -> (0, 19)
  point P0 (0, 0)
  dimension "d129" = 0.5
  dimension "d130" = 0.75
extrude "Extrusion14" cut sketch "Sketch14" against normal blind 28
sketch "Sketch15" plane through (0, 28, 0) normal (0, 1, 0) x (1, 0, 0)
  line L0 (0, 19.75) -> (2.3, 19.75) projected
  line L1 (1.15, 17.75) -> (0, 17.75)
  line L2 (0, 17) -> (2.3, 17) projected
  line L3 (0, 17.75) -> (0, 17)
  line L4 (0, 17) -> (2.3, 17)
  line L5 (2.3, 19.75) -> (2.3, 17) projected
  line L6 (1.15, 17.75) -> (2.3, 17.75)
  line L7 (33.2558, 17.75) -> (32.7, 17.75)
  line L8 (32.7, 17) -> (35, 17)
  line L9 (35, 17) -> (35, 17.75)
  line L10 (35, 17.75) -> (33.2558, 17.75)
  line L11 (32.7, 17.75) -> (2.3, 17.75)
  line L12 (2.3, 17) -> (32.7, 17)
  point P0 (0, 0)
extrude "Extrusion15" add sketch "Sketch15" against normal blind 28
fillet "Fillet5" radius 6 2 edges at (35, 0, -17.375) (0, 0, -17.375)
sketch "Sketch16" plane through (0, 28, 0) normal (0, 1, 0) x (1, 0, 0)
  line L0 (3.8, 16.2498) -> (3.8, 17) projected
  line L1 (31.2, 17.75) -> (3.8, 17.75) projected
  line L2 (3.8, 17) -> (31.2, 17)
  line L3 (31.2, 17) -> (31.2, 17.75)
  line L4 (31.2, 17.75) -> (3.8, 17.75)
  line L5 (3.8, 17.75) -> (3.8, 17)
  point P0 (0, 0)
extrude "Extrusion16" cut sketch "Sketch16" against normal blind 25.8
sketch "Sketch17" plane through (0, 28, 0) normal (0, 1, 0) x (1, 0, 0)
  line L0 (33.5, 20.75) -> (31.2, 20.75) projected
  line L1 (33.5, 31.134) -> (33.5, 20.75) projected
  line L2 (31.2, 20.75) -> (33.5, 20.75)
  line L3 (33.5, 20.75) -> (33.5, 21.75)
  line L4 (33.5, 21.75) -> (31.2, 21.75)
  line L5 (31.2, 21.75) -> (31.2, 20.75)
  point P0 (0, 0)
  dimension "d144" = 1
extrude "Extrusion17" add sketch "Sketch17" against normal blind 25.8
sketch "Sketch18" plane through (0, 28, 0) normal (0, 1, 0) x (1, 0, 0)
  line L0 (31.2, 21.75) -> (31.2, 16.2503) projected
  line L1 (31.2, 18.25) -> (31.2, 19.25)
  line L2 (3.8, 16.2498) -> (3.8, 21.2498) projected
  line L3 (3.8, 18.25) -> (3.8, 19.25)
  line L4 (3.8, 19.25) -> (31.2, 19.25)
  line L5 (31.2, 18.25) -> (3.8, 18.25)
  point P0 (0, 0)
  point P1 (2.3, 17.75)
  dimension "d148" = 1
extrude "Extrusion18" add sketch "Sketch18" against normal blind 25.8
sketch "Sketch19" plane through (0, 28, 0) normal (0, 1, 0) x (1, 0, 0)
  line L0 (3.8, 19.25) -> (0, 19.25)
  line L1 (0, 19.25) -> (0, 35)
  line L2 (0, 35) -> (35, 35)
  line L3 (35, 35) -> (35, 19.25)
  line L4 (35, 19.75) -> (35, 32) projected
  line L5 (3.8, 19.25) -> (31.2, 19.25) projected
  line L6 (35, 19.25) -> (3.8, 19.25)
  point P0 (0, 0)
extrude "Extrusion19" cut sketch "Sketch19" against normal blind 28
sketch "Sketch20" plane through (0, 28, 0) normal (0, 1, 0) x (1, 0, 0)
  line L0 (3.8, 16.2498) -> (3.8, 18.25) projected
  line L1 (3.8, 18.25) -> (31.2, 18.25)
  line L2 (31.2, 18.25) -> (31.2, 17.75)
  line L3 (31.2, 17.75) -> (3.8, 17.75)
  line L4 (3.8, 17.75) -> (3.8, 18.25)
  point P0 (0, 0)
  dimension "d153" = 27.4
  dimension "d154" = 0.5
extrude "Extrusion20" add sketch "Sketch20" against normal blind 25.8
sketch "Sketch21" plane through (0, 28, 0) normal (0, 1, 0) x (1, 0, 0)
  line L0 (2.3, 19.25) -> (2.3, 17.75) projected
  line L1 (32.7, 17.75) -> (32.7, 19.25) projected
  line L2 (2.3, 19.25) -> (32.7, 19.25)
  line L3 (32.7, 19.25) -> (32.7, 18.75)
  line L4 (32.7, 18.75) -> (2.3, 18.75)
  line L5 (2.3, 18.75) -> (2.3, 19.25)
  point P0 (0, 0)
  dimension "d157" = 0.5
extrude "Extrusion21" cut sketch "Sketch21" against normal blind 28
sketch "Sketch22" plane through (0, 28, 0) normal (0, 1, 0) x (1, 0, 0)
  line L0 (3.8, 17.75) -> (31.2, 17.75) projected
  line L1 (31.2, 17.75) -> (31.2, 16.2503) projected
  line L2 (3.8, 17.75) -> (31.2, 17.75)
  line L3 (31.2, 17.75) -> (31.2, 17.25)
  line L4 (31.2, 17.25) -> (3.8, 17.25)
  line L5 (3.8, 17.25) -> (3.8, 17.75)
  point P0 (0, 0)
  dimension "d160" = 0.5
extrude "Extrusion22" add sketch "Sketch22" against normal blind 25.8
sketch "Sketch23" plane through (0, 28, 0) normal (0, 1, 0) x (1, 0, 0)
  line L0 (5.1962, 0) -> (29.8038, 0) projected
  line L1 (5.1962, 0) -> (6.6962, 0)
  line L2 (6, 0) -> (29, 0) projected
  line L3 (6.6962, 0) -> (0, 3.866)
  line L4 (0, 3.866) -> (0, 3)
  line L5 (0, 3) -> (5.1962, 0)
  line L6 (29.8038, 0) -> (29, 0) projected
  line L7 (29.8038, 0) -> (28.3038, 0)
  line L8 (28.3038, 0) -> (35, 3.866)
  line L9 (35, 17.75) -> (35, 3) projected
  line L10 (35, 3.866) -> (35, 3)
  line L11 (35, 3) -> (29.8038, 0)
  point P0 (0, 0)
  dimension "d165" = 1.5
  dimension "d166" = 30
  dimension "d167" = 1.5
  dimension "d168" = 30
extrude "Extrusion23" cut sketch "Sketch23" against normal blind 28
sketch "Sketch24" plane through (0, 28, 0) normal (0, 1, 0) x (1, 0, 0)
  line L0 (29.4019, 1.5) -> (5.5981, 1.5) projected
  line L1 (5.5981, 1.5) -> (7.0981, 1.5)
  line L2 (7.0981, 1.5) -> (1.5, 4.7321)
  line L3 (1.5, 3.866) -> (1.5, 16.2498) projected
  line L4 (1.5, 4.7321) -> (1.5, 3.866)
  line L5 (5.5981, 1.5) -> (1.5, 3.866) projected
  line L6 (1.5, 3.866) -> (5.5981, 1.5)
  line L7 (29.4019, 1.5) -> (27.9019, 1.5)
  line L8 (27.9019, 1.5) -> (33.5, 4.7321)
  line L9 (33.5, 16.2503) -> (33.5, 3.866) projected
  line L10 (33.5, 4.7321) -> (33.5, 3.866)
  line L11 (33.5, 3.866) -> (29.4019, 1.5) projected
  line L12 (33.5, 3.866) -> (29.4019, 1.5)
  point P0 (0, 0)
  dimension "d171" = 1.5
  dimension "d172" = 30
  dimension "d173" = 1.5
  dimension "d174" = 30
extrude "Extrusion24" add sketch "Sketch24" against normal blind 25.8
sketch "Sketch25" plane through (0, 28, 0) normal (0, 1, 0) x (1, 0, 0)
  line L0 (32.7, 18.75) -> (2.3, 18.75) projected
  line L1 (32.7, 17.75) -> (32.7, 18.75) projected
  line L2 (2.3, 18.75) -> (32.7, 18.75)
  line L3 (32.7, 18.75) -> (32.7, 18.45)
  line L4 (32.7, 18.45) -> (2.3, 18.45)
  line L5 (2.3, 18.45) -> (2.3, 18.75)
  point P0 (0, 0)
  dimension "d177" = 0.3
extrude "Extrusion25" cut sketch "Sketch25" against normal blind 28
properties part number "Sarten"
